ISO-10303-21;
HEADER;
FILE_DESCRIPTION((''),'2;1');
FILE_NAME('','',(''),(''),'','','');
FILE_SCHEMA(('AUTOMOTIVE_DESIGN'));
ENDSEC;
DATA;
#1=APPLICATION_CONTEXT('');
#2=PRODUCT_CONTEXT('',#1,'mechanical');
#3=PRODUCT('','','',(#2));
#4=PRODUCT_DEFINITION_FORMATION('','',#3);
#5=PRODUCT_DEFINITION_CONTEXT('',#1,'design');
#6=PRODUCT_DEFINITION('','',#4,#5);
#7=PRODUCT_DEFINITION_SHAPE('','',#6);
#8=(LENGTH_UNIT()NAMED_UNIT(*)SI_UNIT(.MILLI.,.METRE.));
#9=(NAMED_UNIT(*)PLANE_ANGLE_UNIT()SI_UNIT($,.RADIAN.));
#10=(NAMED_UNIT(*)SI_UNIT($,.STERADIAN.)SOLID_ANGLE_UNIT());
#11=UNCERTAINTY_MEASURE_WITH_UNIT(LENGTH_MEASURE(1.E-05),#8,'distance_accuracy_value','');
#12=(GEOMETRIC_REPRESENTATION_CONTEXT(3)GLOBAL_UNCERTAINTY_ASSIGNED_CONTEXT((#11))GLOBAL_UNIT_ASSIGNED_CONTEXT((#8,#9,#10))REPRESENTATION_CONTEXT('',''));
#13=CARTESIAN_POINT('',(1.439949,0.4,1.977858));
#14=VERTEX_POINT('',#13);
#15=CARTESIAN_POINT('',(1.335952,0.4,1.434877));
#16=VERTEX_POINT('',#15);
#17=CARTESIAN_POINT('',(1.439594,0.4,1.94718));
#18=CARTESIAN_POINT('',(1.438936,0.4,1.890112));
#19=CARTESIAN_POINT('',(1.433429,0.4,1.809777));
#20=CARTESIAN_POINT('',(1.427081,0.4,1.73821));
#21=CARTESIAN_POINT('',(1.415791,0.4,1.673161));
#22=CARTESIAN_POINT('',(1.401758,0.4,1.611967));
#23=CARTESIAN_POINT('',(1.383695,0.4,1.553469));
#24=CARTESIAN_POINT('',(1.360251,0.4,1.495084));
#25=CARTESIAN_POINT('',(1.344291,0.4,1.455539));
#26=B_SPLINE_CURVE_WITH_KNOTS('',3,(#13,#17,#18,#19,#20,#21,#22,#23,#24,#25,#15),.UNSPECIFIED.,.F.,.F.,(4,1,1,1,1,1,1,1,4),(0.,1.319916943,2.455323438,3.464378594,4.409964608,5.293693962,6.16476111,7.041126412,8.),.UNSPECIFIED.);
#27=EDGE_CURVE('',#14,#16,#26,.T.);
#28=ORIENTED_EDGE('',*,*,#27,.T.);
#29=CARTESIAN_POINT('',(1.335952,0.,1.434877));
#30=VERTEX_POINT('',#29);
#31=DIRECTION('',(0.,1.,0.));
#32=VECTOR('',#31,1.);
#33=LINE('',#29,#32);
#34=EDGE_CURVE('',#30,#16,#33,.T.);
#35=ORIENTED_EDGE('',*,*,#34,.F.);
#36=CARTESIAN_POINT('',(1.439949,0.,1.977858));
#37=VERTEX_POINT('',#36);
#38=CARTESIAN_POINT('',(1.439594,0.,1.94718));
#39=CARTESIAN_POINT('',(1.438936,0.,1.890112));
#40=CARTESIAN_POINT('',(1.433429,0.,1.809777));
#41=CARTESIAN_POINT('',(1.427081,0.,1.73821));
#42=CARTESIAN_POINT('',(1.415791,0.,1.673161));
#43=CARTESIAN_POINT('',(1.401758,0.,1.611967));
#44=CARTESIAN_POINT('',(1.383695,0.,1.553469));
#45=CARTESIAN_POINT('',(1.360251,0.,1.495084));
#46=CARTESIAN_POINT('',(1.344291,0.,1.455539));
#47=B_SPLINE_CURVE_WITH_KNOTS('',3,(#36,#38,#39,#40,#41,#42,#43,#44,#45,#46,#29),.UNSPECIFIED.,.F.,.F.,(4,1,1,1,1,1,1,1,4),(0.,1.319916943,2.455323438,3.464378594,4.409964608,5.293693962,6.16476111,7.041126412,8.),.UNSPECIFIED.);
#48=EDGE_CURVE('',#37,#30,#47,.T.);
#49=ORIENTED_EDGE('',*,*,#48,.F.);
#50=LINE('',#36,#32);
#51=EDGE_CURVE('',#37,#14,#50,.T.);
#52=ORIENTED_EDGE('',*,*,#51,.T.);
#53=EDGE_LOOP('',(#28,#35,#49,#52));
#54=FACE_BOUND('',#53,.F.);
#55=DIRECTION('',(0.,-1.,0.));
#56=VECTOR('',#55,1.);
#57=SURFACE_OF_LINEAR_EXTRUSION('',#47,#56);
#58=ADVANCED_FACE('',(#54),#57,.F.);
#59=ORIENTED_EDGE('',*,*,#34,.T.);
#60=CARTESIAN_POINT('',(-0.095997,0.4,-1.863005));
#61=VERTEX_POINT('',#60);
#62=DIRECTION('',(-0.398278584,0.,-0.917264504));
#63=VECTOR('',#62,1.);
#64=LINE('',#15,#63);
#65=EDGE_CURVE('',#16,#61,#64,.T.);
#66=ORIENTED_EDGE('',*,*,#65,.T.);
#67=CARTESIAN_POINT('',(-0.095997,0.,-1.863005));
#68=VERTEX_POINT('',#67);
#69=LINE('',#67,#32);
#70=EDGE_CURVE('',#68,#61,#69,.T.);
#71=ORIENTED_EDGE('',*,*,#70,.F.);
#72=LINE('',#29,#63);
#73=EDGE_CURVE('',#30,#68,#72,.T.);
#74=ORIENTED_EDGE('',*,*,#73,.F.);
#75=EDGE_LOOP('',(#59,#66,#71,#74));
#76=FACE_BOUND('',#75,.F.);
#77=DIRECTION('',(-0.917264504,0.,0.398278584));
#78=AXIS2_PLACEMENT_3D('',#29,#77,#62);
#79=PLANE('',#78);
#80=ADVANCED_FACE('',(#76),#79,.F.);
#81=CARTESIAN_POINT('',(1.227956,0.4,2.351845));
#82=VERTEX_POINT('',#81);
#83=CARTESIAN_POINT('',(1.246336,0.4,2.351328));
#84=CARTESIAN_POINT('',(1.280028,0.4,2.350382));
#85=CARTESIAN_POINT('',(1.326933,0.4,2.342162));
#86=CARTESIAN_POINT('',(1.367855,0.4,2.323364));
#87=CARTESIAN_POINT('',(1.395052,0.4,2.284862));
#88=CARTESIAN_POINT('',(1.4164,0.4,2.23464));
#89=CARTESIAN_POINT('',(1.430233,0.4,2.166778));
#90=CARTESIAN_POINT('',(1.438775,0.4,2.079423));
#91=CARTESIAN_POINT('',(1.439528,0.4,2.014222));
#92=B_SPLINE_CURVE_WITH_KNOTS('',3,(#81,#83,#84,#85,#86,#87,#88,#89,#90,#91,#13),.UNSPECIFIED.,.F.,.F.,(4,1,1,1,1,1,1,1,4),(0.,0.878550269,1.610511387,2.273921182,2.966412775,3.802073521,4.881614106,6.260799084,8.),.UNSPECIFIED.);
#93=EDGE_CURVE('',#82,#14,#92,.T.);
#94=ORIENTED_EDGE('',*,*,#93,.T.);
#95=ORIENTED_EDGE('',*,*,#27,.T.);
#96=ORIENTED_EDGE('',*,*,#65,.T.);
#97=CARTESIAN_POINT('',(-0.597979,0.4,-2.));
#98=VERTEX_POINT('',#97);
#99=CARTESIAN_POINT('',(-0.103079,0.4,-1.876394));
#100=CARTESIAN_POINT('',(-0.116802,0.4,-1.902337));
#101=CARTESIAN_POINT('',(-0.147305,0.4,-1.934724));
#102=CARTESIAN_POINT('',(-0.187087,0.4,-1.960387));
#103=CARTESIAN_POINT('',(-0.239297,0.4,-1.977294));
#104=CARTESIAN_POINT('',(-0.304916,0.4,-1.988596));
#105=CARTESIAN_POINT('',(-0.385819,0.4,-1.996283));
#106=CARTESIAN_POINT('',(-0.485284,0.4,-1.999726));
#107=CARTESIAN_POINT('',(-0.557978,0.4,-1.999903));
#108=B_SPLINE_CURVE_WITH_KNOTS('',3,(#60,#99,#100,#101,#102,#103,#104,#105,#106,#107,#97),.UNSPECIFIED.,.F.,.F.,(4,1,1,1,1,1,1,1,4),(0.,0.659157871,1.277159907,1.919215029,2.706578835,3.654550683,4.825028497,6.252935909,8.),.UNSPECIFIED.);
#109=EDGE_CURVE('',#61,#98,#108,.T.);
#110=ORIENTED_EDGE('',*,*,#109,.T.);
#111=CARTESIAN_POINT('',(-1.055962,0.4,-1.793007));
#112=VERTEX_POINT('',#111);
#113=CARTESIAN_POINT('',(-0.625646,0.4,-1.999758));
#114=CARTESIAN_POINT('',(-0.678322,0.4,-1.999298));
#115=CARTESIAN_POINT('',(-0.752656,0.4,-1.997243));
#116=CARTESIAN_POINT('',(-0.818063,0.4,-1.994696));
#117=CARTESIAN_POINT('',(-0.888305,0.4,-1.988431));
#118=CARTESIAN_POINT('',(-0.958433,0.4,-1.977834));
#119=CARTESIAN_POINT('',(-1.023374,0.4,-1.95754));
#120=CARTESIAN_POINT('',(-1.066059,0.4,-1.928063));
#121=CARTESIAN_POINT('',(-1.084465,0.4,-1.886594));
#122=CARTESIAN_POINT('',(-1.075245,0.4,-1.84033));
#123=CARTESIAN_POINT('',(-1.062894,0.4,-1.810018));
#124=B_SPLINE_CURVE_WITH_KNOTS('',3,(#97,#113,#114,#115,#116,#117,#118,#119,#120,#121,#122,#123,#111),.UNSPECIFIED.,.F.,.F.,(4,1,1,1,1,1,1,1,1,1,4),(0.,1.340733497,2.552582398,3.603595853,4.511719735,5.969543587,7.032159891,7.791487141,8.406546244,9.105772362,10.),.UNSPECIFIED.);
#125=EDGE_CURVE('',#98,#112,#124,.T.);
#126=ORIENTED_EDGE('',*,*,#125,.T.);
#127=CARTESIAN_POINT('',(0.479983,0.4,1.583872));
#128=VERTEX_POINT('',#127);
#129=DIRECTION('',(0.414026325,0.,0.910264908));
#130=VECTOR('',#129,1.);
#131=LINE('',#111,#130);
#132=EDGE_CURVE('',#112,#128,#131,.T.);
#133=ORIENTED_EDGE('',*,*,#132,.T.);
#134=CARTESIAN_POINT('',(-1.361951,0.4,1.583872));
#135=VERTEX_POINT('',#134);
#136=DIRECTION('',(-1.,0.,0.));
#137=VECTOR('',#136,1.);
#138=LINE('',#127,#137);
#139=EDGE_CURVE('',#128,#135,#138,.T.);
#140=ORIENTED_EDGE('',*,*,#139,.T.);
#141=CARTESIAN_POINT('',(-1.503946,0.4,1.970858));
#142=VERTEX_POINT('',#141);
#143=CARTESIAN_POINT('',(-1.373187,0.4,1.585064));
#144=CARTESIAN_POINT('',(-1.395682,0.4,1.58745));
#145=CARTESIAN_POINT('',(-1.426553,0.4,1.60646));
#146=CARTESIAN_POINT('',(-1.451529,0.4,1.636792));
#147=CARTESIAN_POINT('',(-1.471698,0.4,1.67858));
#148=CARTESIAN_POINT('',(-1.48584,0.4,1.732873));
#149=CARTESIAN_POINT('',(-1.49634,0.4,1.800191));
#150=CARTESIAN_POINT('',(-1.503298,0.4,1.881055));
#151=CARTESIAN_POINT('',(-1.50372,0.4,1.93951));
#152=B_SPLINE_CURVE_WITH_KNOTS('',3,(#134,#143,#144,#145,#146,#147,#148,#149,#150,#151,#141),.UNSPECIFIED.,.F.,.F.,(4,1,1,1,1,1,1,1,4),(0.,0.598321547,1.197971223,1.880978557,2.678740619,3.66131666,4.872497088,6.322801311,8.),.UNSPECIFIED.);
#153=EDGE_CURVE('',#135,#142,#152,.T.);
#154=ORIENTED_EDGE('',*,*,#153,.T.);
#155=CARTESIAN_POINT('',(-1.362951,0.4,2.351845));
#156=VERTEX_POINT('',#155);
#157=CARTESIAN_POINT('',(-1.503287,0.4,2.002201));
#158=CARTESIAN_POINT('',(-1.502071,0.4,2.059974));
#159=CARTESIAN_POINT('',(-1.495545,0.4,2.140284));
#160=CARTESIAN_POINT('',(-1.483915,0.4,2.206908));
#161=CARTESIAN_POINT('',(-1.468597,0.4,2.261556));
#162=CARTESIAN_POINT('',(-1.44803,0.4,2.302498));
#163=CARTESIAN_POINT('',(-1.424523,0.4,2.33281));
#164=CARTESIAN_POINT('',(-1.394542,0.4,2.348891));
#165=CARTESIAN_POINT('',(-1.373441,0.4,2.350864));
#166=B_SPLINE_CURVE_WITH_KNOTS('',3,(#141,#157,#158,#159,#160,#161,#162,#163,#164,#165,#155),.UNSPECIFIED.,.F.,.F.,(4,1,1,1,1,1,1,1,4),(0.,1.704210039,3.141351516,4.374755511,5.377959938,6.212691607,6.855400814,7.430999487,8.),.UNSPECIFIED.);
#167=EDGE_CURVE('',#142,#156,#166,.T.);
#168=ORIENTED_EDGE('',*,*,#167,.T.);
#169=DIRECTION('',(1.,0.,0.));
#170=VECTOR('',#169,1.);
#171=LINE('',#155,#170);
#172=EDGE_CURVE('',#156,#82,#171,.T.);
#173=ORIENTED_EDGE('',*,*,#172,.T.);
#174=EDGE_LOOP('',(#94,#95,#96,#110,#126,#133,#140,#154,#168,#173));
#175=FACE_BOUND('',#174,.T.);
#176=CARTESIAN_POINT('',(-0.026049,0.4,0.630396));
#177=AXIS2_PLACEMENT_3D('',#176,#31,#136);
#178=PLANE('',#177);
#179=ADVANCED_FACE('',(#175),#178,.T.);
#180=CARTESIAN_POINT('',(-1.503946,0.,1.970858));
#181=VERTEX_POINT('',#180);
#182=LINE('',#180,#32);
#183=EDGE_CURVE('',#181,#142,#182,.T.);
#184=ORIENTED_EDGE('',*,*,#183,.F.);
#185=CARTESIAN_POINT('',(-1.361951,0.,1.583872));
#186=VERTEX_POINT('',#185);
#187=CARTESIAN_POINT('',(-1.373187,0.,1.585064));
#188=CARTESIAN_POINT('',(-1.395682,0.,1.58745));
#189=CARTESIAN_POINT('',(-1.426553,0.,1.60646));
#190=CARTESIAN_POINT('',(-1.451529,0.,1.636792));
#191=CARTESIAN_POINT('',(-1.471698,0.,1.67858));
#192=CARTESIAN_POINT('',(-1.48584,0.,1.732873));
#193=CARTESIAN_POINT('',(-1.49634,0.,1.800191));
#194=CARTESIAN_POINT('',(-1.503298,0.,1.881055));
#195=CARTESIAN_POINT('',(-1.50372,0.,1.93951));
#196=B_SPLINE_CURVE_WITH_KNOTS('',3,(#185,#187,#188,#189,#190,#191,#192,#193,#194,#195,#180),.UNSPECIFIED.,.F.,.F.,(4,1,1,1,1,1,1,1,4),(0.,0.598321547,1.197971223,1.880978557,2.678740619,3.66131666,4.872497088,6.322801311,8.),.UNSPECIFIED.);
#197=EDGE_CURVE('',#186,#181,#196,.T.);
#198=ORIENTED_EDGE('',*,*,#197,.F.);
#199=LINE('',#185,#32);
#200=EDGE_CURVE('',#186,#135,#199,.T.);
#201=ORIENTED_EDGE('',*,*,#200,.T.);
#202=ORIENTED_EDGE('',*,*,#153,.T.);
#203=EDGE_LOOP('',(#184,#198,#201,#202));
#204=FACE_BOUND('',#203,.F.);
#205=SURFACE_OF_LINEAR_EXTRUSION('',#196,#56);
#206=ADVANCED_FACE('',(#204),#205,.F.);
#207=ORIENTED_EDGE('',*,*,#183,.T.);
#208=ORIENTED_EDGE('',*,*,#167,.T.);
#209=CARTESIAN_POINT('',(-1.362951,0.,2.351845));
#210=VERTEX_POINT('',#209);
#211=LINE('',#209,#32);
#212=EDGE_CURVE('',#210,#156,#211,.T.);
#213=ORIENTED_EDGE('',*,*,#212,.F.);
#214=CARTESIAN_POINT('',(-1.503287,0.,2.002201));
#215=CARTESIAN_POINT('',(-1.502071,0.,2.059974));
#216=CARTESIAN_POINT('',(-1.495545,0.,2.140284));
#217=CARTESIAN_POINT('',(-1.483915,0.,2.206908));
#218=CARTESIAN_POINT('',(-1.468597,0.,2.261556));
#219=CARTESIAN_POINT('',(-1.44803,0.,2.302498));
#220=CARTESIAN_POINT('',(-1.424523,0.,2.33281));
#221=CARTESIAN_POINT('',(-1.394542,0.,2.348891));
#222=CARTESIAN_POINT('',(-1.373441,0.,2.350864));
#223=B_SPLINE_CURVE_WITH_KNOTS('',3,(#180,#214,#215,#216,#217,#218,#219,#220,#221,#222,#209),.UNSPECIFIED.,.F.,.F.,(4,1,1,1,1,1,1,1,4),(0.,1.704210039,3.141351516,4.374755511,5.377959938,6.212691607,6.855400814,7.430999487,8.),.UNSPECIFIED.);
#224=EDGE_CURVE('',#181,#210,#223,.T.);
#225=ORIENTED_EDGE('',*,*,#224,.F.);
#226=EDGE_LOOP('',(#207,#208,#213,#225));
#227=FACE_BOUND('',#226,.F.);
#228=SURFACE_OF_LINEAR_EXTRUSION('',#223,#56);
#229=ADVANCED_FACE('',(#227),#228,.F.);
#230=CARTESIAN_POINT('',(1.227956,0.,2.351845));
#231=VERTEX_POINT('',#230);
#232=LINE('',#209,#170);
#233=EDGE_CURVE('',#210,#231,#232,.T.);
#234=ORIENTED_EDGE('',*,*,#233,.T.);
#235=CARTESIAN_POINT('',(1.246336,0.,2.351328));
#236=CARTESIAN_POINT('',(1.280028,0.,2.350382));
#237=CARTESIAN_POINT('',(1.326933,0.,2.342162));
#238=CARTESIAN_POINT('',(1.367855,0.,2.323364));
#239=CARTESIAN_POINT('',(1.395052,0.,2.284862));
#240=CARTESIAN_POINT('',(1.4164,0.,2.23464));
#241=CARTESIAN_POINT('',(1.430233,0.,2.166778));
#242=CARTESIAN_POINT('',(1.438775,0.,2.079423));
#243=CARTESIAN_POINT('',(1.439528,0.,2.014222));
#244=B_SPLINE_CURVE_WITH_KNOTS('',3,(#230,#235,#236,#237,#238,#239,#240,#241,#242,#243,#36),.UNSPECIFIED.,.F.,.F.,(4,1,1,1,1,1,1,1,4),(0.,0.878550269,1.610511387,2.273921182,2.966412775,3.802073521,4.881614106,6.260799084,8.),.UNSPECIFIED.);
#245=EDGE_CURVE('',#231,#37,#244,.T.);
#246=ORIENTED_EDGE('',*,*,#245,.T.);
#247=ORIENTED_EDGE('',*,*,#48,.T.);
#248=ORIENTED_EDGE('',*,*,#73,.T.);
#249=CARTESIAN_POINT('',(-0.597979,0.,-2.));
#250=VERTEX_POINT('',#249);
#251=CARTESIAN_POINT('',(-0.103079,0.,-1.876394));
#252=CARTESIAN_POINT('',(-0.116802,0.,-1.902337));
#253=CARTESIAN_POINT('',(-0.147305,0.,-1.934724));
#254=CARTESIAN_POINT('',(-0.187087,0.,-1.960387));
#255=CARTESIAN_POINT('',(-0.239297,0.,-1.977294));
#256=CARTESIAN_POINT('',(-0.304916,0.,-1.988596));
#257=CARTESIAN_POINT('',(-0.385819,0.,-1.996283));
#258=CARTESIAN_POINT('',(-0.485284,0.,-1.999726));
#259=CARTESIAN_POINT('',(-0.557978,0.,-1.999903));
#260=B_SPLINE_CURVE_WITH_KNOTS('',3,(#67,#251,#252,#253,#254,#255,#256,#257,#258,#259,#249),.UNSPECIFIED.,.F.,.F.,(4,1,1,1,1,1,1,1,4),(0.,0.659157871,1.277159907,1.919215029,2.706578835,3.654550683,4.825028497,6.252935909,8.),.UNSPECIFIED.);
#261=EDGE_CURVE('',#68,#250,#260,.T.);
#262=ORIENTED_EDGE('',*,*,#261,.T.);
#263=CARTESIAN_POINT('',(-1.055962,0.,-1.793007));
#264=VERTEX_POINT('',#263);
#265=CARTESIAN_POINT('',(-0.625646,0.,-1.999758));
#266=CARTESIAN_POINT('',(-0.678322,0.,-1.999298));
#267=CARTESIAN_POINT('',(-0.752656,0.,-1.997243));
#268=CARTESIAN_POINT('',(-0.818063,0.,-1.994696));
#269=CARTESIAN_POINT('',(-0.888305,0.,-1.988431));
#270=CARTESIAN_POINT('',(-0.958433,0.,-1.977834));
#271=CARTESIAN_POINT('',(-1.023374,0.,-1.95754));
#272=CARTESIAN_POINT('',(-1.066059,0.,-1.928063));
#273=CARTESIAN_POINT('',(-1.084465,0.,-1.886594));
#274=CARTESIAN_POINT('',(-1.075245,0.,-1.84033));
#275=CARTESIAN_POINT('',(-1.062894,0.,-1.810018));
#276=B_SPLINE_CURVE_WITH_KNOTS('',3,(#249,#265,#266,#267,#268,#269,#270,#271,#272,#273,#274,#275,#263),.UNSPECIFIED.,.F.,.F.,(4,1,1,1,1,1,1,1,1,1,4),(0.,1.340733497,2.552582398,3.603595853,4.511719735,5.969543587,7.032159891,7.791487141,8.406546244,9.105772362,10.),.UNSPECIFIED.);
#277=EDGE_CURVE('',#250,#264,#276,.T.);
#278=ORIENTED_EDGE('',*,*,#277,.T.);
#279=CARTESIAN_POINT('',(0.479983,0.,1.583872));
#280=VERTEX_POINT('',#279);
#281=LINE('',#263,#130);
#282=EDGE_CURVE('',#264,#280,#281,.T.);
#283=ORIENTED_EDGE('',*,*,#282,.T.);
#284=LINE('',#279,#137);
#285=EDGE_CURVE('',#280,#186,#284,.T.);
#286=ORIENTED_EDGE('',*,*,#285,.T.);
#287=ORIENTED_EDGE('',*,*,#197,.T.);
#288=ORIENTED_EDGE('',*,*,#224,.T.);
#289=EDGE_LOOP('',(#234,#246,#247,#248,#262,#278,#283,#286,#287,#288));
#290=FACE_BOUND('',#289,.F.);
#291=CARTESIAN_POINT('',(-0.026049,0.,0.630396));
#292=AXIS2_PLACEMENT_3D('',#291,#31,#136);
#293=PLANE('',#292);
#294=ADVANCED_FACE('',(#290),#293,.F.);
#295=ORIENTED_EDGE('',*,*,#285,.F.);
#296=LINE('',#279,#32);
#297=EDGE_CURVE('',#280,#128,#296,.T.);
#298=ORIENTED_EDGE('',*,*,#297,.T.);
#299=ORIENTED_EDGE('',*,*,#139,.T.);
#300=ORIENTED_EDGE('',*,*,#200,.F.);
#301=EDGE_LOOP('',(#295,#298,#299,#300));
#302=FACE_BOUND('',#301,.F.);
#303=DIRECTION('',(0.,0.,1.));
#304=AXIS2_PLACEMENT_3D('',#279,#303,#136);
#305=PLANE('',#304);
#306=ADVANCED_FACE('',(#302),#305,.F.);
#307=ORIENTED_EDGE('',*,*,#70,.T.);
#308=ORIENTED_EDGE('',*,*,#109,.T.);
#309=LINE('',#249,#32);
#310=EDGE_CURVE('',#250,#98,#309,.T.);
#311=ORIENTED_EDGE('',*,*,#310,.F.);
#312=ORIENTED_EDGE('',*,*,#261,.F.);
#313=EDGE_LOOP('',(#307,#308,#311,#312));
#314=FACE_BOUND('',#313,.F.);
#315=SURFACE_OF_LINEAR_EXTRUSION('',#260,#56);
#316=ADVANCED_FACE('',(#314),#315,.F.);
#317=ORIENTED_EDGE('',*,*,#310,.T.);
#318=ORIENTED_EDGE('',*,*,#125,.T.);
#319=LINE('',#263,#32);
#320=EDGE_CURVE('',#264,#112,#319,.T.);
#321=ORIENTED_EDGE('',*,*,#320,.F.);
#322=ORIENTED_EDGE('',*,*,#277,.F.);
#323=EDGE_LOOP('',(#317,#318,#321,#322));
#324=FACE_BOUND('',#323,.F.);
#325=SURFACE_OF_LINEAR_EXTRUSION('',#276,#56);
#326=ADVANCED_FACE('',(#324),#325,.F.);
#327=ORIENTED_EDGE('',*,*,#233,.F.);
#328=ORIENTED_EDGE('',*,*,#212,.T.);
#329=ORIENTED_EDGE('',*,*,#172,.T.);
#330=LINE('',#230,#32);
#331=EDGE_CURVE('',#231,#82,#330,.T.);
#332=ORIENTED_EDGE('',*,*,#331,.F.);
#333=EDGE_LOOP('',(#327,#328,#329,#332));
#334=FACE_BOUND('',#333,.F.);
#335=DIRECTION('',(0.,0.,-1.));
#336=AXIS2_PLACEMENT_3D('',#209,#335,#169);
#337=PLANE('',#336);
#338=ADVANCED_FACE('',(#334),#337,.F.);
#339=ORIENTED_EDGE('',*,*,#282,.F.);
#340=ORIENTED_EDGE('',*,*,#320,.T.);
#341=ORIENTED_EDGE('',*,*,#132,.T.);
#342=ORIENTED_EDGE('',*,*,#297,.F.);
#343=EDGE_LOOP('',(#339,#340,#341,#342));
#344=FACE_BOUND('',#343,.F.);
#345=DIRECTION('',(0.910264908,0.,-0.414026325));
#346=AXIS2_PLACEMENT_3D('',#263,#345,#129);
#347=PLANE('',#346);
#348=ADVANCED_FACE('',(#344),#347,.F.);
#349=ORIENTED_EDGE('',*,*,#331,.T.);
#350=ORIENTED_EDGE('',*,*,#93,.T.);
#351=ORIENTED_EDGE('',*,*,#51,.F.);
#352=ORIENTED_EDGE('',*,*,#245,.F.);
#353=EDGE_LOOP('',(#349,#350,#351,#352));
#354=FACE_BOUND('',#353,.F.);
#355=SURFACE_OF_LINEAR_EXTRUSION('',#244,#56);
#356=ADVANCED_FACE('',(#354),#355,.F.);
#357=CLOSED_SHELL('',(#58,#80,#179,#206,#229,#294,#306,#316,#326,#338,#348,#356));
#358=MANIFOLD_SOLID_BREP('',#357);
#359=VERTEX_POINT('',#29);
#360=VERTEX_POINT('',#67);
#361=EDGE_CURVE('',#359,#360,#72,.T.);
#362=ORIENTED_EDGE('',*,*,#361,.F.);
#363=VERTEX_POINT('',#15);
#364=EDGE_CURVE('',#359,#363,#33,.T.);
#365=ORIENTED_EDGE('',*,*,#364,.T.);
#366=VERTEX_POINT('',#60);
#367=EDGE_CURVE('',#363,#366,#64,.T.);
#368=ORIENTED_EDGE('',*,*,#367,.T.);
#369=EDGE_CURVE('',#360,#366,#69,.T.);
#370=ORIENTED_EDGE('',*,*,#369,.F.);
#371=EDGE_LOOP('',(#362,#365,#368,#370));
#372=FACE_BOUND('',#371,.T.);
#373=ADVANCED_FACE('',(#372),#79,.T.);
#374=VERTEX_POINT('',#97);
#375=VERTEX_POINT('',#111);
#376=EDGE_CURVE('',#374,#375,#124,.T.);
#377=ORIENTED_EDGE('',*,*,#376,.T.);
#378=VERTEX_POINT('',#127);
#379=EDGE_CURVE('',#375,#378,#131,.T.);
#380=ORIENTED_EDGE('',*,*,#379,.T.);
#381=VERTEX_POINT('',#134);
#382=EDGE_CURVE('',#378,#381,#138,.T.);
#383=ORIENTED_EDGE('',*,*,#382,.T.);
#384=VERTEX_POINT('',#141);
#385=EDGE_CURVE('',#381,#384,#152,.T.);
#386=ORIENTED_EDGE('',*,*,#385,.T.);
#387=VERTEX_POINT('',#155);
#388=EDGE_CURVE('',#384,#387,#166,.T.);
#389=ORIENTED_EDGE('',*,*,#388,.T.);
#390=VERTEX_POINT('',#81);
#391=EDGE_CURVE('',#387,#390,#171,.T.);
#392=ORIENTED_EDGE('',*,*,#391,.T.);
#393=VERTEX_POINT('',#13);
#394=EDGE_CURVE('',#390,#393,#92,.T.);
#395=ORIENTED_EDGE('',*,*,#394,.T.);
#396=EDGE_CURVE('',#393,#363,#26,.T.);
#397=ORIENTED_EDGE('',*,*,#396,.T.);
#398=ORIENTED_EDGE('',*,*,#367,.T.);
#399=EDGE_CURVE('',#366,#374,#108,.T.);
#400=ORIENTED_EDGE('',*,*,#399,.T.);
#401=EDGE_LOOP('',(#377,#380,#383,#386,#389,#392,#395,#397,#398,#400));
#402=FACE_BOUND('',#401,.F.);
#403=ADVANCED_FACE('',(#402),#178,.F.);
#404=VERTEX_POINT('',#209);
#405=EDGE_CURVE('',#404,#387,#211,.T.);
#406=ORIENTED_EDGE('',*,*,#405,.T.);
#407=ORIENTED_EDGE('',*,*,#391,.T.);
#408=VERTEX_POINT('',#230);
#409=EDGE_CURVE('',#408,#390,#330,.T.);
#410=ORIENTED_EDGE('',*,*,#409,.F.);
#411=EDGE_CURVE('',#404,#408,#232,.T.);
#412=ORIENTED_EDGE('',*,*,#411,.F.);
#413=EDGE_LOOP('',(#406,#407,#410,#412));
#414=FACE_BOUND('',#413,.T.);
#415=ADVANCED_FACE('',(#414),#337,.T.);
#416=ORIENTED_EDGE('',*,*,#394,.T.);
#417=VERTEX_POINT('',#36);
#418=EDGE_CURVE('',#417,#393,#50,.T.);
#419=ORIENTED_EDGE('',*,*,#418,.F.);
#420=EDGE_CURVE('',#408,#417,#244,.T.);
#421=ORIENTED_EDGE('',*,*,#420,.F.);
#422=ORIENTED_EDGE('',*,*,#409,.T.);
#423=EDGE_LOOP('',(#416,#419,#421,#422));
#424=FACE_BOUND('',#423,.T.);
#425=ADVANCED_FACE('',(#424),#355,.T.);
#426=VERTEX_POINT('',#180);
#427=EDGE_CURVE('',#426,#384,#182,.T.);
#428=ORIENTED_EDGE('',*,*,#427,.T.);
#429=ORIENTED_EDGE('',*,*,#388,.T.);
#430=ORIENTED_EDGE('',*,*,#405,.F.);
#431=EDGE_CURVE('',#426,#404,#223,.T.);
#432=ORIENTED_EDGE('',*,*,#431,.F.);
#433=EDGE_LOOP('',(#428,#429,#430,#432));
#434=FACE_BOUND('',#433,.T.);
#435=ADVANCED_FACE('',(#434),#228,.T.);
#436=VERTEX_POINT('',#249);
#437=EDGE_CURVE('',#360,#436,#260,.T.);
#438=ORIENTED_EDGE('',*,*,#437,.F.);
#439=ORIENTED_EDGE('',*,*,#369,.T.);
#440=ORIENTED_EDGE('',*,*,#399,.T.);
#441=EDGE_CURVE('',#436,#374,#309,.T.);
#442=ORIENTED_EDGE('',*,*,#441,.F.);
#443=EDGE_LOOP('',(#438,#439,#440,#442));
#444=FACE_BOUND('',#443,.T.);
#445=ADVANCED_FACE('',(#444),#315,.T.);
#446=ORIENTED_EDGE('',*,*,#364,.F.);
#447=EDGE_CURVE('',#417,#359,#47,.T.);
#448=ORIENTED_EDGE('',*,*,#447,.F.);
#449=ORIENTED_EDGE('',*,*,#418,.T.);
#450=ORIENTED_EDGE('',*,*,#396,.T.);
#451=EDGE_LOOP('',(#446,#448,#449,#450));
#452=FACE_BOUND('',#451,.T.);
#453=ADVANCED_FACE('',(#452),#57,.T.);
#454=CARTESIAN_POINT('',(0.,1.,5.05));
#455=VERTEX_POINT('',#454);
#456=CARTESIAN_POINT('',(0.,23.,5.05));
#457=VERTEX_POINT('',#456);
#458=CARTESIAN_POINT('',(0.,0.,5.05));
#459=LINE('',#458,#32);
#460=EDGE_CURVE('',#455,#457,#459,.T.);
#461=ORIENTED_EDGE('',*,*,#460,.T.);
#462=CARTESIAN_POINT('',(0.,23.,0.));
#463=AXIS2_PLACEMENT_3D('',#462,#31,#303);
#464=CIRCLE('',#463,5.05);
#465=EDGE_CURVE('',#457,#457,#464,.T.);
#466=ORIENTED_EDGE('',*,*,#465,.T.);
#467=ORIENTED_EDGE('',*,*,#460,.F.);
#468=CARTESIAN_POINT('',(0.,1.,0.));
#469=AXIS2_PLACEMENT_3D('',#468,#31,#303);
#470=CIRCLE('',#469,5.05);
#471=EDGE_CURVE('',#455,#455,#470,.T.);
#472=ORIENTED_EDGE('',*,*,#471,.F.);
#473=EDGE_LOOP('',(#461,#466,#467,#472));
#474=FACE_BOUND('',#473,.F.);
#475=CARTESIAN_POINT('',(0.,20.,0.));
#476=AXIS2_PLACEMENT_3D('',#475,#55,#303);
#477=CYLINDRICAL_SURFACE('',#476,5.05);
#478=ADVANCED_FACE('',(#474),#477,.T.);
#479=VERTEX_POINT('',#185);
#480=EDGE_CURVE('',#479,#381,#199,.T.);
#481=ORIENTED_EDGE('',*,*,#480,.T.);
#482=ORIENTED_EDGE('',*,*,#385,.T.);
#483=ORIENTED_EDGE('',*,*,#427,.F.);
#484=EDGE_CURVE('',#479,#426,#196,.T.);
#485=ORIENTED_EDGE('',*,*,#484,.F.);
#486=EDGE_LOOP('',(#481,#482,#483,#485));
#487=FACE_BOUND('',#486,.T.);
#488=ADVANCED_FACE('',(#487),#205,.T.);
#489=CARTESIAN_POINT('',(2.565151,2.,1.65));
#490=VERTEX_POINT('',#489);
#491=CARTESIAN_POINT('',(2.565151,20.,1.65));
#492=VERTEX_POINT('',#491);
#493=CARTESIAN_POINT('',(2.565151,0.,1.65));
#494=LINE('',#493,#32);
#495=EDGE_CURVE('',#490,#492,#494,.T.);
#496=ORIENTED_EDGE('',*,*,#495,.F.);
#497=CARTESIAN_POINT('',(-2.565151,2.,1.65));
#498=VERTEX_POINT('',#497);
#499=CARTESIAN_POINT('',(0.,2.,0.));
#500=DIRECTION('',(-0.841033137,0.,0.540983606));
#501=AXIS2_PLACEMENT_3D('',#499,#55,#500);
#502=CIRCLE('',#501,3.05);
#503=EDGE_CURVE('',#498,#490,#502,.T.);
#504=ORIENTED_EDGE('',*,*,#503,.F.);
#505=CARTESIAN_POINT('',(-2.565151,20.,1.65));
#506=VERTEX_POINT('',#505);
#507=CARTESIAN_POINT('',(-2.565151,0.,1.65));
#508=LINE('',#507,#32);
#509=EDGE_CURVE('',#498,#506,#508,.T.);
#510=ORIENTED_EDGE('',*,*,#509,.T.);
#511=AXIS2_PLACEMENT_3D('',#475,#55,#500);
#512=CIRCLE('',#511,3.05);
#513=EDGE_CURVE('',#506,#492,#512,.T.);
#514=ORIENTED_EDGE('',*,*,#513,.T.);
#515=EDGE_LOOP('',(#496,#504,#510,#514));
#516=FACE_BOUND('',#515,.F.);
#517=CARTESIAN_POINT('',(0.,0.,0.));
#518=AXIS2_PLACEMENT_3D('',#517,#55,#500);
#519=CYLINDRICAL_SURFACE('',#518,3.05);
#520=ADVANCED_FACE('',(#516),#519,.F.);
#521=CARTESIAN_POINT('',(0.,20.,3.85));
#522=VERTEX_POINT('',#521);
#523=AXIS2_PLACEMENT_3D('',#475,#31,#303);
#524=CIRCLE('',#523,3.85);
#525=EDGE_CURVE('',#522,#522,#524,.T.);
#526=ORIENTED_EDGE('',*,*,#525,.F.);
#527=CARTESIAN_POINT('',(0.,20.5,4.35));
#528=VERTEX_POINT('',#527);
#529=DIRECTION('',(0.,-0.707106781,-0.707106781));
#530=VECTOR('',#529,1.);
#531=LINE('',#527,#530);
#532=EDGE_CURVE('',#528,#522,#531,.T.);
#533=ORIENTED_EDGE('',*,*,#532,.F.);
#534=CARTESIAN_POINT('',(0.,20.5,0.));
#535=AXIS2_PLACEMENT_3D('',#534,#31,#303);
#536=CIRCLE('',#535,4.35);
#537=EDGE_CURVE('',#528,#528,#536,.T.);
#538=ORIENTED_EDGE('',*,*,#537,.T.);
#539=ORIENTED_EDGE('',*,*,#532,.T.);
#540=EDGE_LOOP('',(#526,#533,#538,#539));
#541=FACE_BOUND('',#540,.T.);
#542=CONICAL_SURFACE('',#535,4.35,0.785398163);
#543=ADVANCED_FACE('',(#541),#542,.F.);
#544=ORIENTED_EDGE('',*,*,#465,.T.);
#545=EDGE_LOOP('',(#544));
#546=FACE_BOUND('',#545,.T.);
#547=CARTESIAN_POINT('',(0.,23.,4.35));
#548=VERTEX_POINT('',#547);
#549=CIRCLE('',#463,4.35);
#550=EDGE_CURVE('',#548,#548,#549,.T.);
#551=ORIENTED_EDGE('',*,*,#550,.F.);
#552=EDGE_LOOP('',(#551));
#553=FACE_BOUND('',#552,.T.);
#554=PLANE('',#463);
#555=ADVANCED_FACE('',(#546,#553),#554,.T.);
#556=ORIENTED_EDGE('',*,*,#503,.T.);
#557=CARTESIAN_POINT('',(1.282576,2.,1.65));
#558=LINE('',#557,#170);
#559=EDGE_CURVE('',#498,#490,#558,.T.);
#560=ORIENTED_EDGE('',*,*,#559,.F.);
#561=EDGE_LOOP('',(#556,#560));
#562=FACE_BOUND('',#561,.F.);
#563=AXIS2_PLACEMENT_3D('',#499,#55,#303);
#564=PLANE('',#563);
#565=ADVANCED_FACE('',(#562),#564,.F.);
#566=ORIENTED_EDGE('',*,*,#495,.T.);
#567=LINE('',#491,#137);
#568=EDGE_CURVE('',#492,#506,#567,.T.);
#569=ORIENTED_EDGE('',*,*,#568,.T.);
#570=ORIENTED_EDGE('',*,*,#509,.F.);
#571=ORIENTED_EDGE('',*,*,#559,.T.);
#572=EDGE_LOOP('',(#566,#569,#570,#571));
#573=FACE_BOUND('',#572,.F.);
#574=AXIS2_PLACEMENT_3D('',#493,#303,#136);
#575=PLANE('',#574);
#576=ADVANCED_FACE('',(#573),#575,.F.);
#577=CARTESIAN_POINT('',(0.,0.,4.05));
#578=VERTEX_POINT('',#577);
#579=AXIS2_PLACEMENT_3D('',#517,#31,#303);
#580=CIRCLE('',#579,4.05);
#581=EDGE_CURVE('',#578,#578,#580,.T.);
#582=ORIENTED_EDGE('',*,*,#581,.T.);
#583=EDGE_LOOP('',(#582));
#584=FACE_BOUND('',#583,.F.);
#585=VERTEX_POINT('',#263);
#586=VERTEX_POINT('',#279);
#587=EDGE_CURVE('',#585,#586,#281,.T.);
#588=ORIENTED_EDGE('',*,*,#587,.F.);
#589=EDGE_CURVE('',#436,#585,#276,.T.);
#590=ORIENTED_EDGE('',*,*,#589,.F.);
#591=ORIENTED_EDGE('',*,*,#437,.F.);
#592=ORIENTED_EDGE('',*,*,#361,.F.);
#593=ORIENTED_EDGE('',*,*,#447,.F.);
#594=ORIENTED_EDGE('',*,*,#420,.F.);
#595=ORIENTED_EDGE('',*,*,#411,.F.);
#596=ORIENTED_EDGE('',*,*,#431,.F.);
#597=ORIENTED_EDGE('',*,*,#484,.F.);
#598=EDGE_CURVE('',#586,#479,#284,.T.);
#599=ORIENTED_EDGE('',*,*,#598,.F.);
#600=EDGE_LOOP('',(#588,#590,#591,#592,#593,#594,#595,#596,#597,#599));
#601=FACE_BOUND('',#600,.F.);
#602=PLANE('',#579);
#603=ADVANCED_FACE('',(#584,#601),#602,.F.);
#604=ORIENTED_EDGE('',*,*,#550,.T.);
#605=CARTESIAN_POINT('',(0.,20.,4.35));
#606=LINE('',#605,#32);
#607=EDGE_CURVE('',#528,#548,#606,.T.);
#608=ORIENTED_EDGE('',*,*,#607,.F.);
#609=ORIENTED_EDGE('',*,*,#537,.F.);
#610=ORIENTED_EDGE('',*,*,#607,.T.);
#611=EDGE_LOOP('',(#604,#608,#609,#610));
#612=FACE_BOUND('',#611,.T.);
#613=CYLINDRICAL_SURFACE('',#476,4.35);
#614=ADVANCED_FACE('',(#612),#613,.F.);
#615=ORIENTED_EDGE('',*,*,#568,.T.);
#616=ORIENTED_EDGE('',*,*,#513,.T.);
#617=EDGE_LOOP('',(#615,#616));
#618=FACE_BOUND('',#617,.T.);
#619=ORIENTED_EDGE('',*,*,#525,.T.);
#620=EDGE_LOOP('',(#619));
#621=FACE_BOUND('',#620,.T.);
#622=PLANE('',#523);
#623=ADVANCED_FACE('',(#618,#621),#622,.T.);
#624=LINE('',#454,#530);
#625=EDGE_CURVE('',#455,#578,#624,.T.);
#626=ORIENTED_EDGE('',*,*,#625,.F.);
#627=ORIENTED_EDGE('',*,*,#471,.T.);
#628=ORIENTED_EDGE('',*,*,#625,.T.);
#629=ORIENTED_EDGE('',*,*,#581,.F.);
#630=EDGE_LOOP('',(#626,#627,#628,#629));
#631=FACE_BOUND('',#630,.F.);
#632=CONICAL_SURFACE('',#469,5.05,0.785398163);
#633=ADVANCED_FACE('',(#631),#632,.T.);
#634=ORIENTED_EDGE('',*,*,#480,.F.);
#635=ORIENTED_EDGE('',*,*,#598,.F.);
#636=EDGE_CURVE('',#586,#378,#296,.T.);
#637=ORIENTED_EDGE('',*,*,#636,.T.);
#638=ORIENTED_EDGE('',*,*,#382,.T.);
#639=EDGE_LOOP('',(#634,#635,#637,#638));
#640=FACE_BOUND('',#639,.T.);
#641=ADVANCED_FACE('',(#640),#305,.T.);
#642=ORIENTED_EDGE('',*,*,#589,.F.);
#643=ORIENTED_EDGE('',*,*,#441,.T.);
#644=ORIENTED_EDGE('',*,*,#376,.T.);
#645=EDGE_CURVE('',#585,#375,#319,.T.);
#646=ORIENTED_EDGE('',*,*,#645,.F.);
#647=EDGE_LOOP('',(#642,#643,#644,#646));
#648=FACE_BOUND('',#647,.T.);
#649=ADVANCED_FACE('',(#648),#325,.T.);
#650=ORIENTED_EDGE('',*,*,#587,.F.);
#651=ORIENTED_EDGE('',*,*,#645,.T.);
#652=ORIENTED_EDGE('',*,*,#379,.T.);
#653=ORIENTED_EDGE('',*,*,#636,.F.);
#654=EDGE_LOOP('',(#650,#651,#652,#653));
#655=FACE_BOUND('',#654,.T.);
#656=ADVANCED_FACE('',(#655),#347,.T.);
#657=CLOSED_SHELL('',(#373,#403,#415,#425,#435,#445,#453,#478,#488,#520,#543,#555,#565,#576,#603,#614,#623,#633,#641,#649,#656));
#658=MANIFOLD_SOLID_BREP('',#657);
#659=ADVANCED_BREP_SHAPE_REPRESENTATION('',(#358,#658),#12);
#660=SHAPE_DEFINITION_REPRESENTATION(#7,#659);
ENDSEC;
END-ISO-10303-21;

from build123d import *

# Parameters (mm, degrees)
SKETCH1_R           = 5.05
BOSS_EXTRUDE1_DEPTH = 20
SKETCH2_R           = 5.05
BOSS_EXTRUDE2_DEPTH = 2
SKETCH4_R           = 5.05
SKETCH4_R_2         = 4.35
BOSS_EXTRUDE3_DEPTH = 3
CHAMFER1_SIZE       = 1
CHAMFER2_SIZE       = 0.5
CUT_EXTRUDE1_DEPTH  = 0.4
BOSS_EXTRUDE4_DEPTH = 0.4


with BuildPart() as part:
    # Sketch1 → Boss-Extrude1 (new body)
    with BuildSketch(Plane(origin=(0, 0, 0), x_dir=(1, 0, 0), z_dir=(0, 1, 0))):
        Circle(SKETCH1_R)
        with BuildLine():
            Line((2.565151068, -1.65), (-2.565151068, -1.65))
            ThreePointArc((-2.565151068, -1.65), (0, 3.05), (2.565151068, -1.65))
        make_face(mode=Mode.SUBTRACT)
    extrude(amount=BOSS_EXTRUDE1_DEPTH)

    # Sketch2 → Boss-Extrude2 (add)
    with BuildSketch(Plane.XZ):
        Circle(SKETCH2_R)
    extrude(amount=-BOSS_EXTRUDE2_DEPTH)

    # Sketch4 → Boss-Extrude3 (add)
    with BuildSketch(Plane(origin=(0, 20, 0), x_dir=(1, 0, 0), z_dir=(0, 1, 0))):
        Circle(SKETCH4_R)
        Circle(SKETCH4_R_2, mode=Mode.SUBTRACT)
    extrude(amount=BOSS_EXTRUDE3_DEPTH)

    # Chamfer1
    chamfer1_edges = [part.edges().sort_by_distance(p)[0] for p in [
        (-5.05, 0, 0),
    ]]
    chamfer(chamfer1_edges, length=CHAMFER1_SIZE)

    # Chamfer2
    chamfer2_edges = [part.edges().sort_by_distance(p)[0] for p in [
        (-4.35, 20, 0),
    ]]
    chamfer(chamfer2_edges, length=CHAMFER2_SIZE)

    # Sketch5 → Cut-Extrude1 (cut)
    with BuildSketch(Plane.XZ):
        with BuildLine():
            add(Edge.make_bspline(
                [(1.439948587, 1.977857971), (1.439594418, 1.947179654), (1.438935589, 1.890111525), (1.433429057, 1.809777002), (1.4270814, 1.738210124), (1.415791341, 1.673161074), (1.401758418, 1.611967409), (1.383694724, 1.553469012), (1.360250697, 1.495084377), (1.344290938, 1.455538989), (1.3359523, 1.434877358)],
                knots=[0, 0, 0, 0, 1.319916943, 2.455323438, 3.464378594, 4.409964608, 5.293693962, 6.16476111, 7.041126412, 8, 8, 8, 8], degree=3))
            Line((1.3359523, 1.434877358), (-0.095996572, -1.863004891))
            add(Edge.make_bspline(
                [(-0.095996572, -1.863004891), (-0.103079107, -1.876394255), (-0.116801963, -1.902336991), (-0.147305, -1.934724111), (-0.187086931, -1.960386537), (-0.239296836, -1.977294348), (-0.304915975, -1.988596283), (-0.385818734, -1.996283375), (-0.48528424, -1.999725841), (-0.557978054, -1.999902688), (-0.597978649, -2)],
                knots=[0, 0, 0, 0, 0.659157871, 1.277159907, 1.919215029, 2.706578835, 3.654550683, 4.825028497, 6.252935909, 8, 8, 8, 8], degree=3))
            add(Edge.make_bspline(
                [(-0.597978649, -2), (-0.625646307, -1.999758185), (-0.678321934, -1.9992978), (-0.752656112, -1.997243092), (-0.818062696, -1.994695895), (-0.888304548, -1.988430727), (-0.958433008, -1.977833702), (-1.023374206, -1.957539704), (-1.066059389, -1.928063191), (-1.084465051, -1.886594158), (-1.075244849, -1.84032981), (-1.062893647, -1.810018016), (-1.055962297, -1.793007391)],
                knots=[0, 0, 0, 0, 1.340733497, 2.552582398, 3.603595853, 4.511719735, 5.969543587, 7.032159891, 7.791487141, 8.406546244, 9.105772362, 10, 10, 10, 10], degree=3))
            Line((-1.055962297, -1.793007391), (0.479982862, 1.583872038))
            Line((0.479982862, 1.583872038), (-1.361951372, 1.583872038))
            add(Edge.make_bspline(
                [(-1.361951372, 1.583872038), (-1.373186676, 1.58506365), (-1.395682225, 1.587449518), (-1.426552523, 1.606459502), (-1.451528664, 1.636792347), (-1.471697595, 1.678580357), (-1.485840367, 1.732872878), (-1.496339641, 1.800191364), (-1.503298216, 1.881054757), (-1.503720072, 1.939510124), (-1.503946302, 1.970858221)],
                knots=[0, 0, 0, 0, 0.598321547, 1.197971223, 1.880978557, 2.678740619, 3.66131666, 4.872497088, 6.322801311, 8, 8, 8, 8], degree=3))
            add(Edge.make_bspline(
                [(-1.503946302, 1.970858221), (-1.503286786, 2.002200854), (-1.502071109, 2.059974382), (-1.495545332, 2.140283922), (-1.483914888, 2.206907787), (-1.468596712, 2.261555537), (-1.448030384, 2.302497667), (-1.424522994, 2.332809913), (-1.394541503, 2.348890816), (-1.373440846, 2.350863809), (-1.362951336, 2.351844618)],
                knots=[0, 0, 0, 0, 1.704210039, 3.141351516, 4.374755511, 5.377959938, 6.212691607, 6.855400814, 7.430999487, 8, 8, 8, 8], degree=3))
            Line((-1.362951336, 2.351844618), (1.227956156, 2.351844618))
            add(Edge.make_bspline(
                [(1.227956156, 2.351844618), (1.246335593, 2.351328223), (1.280027794, 2.350381596), (1.326933096, 2.342161898), (1.367855013, 2.323363855), (1.395052486, 2.284862428), (1.416399912, 2.234640447), (1.430232996, 2.166777773), (1.438775132, 2.079423303), (1.439528445, 2.014222225), (1.439948587, 1.977857971)],
                knots=[0, 0, 0, 0, 0.878550269, 1.610511387, 2.273921182, 2.966412775, 3.802073521, 4.881614106, 6.260799084, 8, 8, 8, 8], degree=3))
        make_face()
    extrude(amount=-CUT_EXTRUDE1_DEPTH, mode=Mode.SUBTRACT)


with BuildPart() as body_2:
    # Sketch5<2> → Boss-Extrude4 (new body)
    with BuildSketch(Plane.XZ):
        with BuildLine():
            add(Edge.make_bspline(
                [(1.439948587, 1.977857971), (1.439594418, 1.947179654), (1.438935589, 1.890111525), (1.433429057, 1.809777002), (1.4270814, 1.738210124), (1.415791341, 1.673161074), (1.401758418, 1.611967409), (1.383694724, 1.553469012), (1.360250697, 1.495084377), (1.344290938, 1.455538989), (1.3359523, 1.434877358)],
                knots=[0, 0, 0, 0, 1.319916943, 2.455323438, 3.464378594, 4.409964608, 5.293693962, 6.16476111, 7.041126412, 8, 8, 8, 8], degree=3))
            Line((1.3359523, 1.434877358), (-0.095996572, -1.863004891))
            add(Edge.make_bspline(
                [(-0.095996572, -1.863004891), (-0.103079107, -1.876394255), (-0.116801963, -1.902336991), (-0.147305, -1.934724111), (-0.187086931, -1.960386537), (-0.239296836, -1.977294348), (-0.304915975, -1.988596283), (-0.385818734, -1.996283375), (-0.48528424, -1.999725841), (-0.557978054, -1.999902688), (-0.597978649, -2)],
                knots=[0, 0, 0, 0, 0.659157871, 1.277159907, 1.919215029, 2.706578835, 3.654550683, 4.825028497, 6.252935909, 8, 8, 8, 8], degree=3))
            add(Edge.make_bspline(
                [(-0.597978649, -2), (-0.625646307, -1.999758185), (-0.678321934, -1.9992978), (-0.752656112, -1.997243092), (-0.818062696, -1.994695895), (-0.888304548, -1.988430727), (-0.958433008, -1.977833702), (-1.023374206, -1.957539704), (-1.066059389, -1.928063191), (-1.084465051, -1.886594158), (-1.075244849, -1.84032981), (-1.062893647, -1.810018016), (-1.055962297, -1.793007391)],
                knots=[0, 0, 0, 0, 1.340733497, 2.552582398, 3.603595853, 4.511719735, 5.969543587, 7.032159891, 7.791487141, 8.406546244, 9.105772362, 10, 10, 10, 10], degree=3))
            Line((-1.055962297, -1.793007391), (0.479982862, 1.583872038))
            Line((0.479982862, 1.583872038), (-1.361951372, 1.583872038))
            add(Edge.make_bspline(
                [(-1.361951372, 1.583872038), (-1.373186676, 1.58506365), (-1.395682225, 1.587449518), (-1.426552523, 1.606459502), (-1.451528664, 1.636792347), (-1.471697595, 1.678580357), (-1.485840367, 1.732872878), (-1.496339641, 1.800191364), (-1.503298216, 1.881054757), (-1.503720072, 1.939510124), (-1.503946302, 1.970858221)],
                knots=[0, 0, 0, 0, 0.598321547, 1.197971223, 1.880978557, 2.678740619, 3.66131666, 4.872497088, 6.322801311, 8, 8, 8, 8], degree=3))
            add(Edge.make_bspline(
                [(-1.503946302, 1.970858221), (-1.503286786, 2.002200854), (-1.502071109, 2.059974382), (-1.495545332, 2.140283922), (-1.483914888, 2.206907787), (-1.468596712, 2.261555537), (-1.448030384, 2.302497667), (-1.424522994, 2.332809913), (-1.394541503, 2.348890816), (-1.373440846, 2.350863809), (-1.362951336, 2.351844618)],
                knots=[0, 0, 0, 0, 1.704210039, 3.141351516, 4.374755511, 5.377959938, 6.212691607, 6.855400814, 7.430999487, 8, 8, 8, 8], degree=3))
            Line((-1.362951336, 2.351844618), (1.227956156, 2.351844618))
            add(Edge.make_bspline(
                [(1.227956156, 2.351844618), (1.246335593, 2.351328223), (1.280027794, 2.350381596), (1.326933096, 2.342161898), (1.367855013, 2.323363855), (1.395052486, 2.284862428), (1.416399912, 2.234640447), (1.430232996, 2.166777773), (1.438775132, 2.079423303), (1.439528445, 2.014222225), (1.439948587, 1.977857971)],
                knots=[0, 0, 0, 0, 0.878550269, 1.610511387, 2.273921182, 2.966412775, 3.802073521, 4.881614106, 6.260799084, 8, 8, 8, 8], degree=3))
        make_face()
    extrude(amount=-BOSS_EXTRUDE4_DEPTH)


solid = Compound([part.part, body_2.part])
